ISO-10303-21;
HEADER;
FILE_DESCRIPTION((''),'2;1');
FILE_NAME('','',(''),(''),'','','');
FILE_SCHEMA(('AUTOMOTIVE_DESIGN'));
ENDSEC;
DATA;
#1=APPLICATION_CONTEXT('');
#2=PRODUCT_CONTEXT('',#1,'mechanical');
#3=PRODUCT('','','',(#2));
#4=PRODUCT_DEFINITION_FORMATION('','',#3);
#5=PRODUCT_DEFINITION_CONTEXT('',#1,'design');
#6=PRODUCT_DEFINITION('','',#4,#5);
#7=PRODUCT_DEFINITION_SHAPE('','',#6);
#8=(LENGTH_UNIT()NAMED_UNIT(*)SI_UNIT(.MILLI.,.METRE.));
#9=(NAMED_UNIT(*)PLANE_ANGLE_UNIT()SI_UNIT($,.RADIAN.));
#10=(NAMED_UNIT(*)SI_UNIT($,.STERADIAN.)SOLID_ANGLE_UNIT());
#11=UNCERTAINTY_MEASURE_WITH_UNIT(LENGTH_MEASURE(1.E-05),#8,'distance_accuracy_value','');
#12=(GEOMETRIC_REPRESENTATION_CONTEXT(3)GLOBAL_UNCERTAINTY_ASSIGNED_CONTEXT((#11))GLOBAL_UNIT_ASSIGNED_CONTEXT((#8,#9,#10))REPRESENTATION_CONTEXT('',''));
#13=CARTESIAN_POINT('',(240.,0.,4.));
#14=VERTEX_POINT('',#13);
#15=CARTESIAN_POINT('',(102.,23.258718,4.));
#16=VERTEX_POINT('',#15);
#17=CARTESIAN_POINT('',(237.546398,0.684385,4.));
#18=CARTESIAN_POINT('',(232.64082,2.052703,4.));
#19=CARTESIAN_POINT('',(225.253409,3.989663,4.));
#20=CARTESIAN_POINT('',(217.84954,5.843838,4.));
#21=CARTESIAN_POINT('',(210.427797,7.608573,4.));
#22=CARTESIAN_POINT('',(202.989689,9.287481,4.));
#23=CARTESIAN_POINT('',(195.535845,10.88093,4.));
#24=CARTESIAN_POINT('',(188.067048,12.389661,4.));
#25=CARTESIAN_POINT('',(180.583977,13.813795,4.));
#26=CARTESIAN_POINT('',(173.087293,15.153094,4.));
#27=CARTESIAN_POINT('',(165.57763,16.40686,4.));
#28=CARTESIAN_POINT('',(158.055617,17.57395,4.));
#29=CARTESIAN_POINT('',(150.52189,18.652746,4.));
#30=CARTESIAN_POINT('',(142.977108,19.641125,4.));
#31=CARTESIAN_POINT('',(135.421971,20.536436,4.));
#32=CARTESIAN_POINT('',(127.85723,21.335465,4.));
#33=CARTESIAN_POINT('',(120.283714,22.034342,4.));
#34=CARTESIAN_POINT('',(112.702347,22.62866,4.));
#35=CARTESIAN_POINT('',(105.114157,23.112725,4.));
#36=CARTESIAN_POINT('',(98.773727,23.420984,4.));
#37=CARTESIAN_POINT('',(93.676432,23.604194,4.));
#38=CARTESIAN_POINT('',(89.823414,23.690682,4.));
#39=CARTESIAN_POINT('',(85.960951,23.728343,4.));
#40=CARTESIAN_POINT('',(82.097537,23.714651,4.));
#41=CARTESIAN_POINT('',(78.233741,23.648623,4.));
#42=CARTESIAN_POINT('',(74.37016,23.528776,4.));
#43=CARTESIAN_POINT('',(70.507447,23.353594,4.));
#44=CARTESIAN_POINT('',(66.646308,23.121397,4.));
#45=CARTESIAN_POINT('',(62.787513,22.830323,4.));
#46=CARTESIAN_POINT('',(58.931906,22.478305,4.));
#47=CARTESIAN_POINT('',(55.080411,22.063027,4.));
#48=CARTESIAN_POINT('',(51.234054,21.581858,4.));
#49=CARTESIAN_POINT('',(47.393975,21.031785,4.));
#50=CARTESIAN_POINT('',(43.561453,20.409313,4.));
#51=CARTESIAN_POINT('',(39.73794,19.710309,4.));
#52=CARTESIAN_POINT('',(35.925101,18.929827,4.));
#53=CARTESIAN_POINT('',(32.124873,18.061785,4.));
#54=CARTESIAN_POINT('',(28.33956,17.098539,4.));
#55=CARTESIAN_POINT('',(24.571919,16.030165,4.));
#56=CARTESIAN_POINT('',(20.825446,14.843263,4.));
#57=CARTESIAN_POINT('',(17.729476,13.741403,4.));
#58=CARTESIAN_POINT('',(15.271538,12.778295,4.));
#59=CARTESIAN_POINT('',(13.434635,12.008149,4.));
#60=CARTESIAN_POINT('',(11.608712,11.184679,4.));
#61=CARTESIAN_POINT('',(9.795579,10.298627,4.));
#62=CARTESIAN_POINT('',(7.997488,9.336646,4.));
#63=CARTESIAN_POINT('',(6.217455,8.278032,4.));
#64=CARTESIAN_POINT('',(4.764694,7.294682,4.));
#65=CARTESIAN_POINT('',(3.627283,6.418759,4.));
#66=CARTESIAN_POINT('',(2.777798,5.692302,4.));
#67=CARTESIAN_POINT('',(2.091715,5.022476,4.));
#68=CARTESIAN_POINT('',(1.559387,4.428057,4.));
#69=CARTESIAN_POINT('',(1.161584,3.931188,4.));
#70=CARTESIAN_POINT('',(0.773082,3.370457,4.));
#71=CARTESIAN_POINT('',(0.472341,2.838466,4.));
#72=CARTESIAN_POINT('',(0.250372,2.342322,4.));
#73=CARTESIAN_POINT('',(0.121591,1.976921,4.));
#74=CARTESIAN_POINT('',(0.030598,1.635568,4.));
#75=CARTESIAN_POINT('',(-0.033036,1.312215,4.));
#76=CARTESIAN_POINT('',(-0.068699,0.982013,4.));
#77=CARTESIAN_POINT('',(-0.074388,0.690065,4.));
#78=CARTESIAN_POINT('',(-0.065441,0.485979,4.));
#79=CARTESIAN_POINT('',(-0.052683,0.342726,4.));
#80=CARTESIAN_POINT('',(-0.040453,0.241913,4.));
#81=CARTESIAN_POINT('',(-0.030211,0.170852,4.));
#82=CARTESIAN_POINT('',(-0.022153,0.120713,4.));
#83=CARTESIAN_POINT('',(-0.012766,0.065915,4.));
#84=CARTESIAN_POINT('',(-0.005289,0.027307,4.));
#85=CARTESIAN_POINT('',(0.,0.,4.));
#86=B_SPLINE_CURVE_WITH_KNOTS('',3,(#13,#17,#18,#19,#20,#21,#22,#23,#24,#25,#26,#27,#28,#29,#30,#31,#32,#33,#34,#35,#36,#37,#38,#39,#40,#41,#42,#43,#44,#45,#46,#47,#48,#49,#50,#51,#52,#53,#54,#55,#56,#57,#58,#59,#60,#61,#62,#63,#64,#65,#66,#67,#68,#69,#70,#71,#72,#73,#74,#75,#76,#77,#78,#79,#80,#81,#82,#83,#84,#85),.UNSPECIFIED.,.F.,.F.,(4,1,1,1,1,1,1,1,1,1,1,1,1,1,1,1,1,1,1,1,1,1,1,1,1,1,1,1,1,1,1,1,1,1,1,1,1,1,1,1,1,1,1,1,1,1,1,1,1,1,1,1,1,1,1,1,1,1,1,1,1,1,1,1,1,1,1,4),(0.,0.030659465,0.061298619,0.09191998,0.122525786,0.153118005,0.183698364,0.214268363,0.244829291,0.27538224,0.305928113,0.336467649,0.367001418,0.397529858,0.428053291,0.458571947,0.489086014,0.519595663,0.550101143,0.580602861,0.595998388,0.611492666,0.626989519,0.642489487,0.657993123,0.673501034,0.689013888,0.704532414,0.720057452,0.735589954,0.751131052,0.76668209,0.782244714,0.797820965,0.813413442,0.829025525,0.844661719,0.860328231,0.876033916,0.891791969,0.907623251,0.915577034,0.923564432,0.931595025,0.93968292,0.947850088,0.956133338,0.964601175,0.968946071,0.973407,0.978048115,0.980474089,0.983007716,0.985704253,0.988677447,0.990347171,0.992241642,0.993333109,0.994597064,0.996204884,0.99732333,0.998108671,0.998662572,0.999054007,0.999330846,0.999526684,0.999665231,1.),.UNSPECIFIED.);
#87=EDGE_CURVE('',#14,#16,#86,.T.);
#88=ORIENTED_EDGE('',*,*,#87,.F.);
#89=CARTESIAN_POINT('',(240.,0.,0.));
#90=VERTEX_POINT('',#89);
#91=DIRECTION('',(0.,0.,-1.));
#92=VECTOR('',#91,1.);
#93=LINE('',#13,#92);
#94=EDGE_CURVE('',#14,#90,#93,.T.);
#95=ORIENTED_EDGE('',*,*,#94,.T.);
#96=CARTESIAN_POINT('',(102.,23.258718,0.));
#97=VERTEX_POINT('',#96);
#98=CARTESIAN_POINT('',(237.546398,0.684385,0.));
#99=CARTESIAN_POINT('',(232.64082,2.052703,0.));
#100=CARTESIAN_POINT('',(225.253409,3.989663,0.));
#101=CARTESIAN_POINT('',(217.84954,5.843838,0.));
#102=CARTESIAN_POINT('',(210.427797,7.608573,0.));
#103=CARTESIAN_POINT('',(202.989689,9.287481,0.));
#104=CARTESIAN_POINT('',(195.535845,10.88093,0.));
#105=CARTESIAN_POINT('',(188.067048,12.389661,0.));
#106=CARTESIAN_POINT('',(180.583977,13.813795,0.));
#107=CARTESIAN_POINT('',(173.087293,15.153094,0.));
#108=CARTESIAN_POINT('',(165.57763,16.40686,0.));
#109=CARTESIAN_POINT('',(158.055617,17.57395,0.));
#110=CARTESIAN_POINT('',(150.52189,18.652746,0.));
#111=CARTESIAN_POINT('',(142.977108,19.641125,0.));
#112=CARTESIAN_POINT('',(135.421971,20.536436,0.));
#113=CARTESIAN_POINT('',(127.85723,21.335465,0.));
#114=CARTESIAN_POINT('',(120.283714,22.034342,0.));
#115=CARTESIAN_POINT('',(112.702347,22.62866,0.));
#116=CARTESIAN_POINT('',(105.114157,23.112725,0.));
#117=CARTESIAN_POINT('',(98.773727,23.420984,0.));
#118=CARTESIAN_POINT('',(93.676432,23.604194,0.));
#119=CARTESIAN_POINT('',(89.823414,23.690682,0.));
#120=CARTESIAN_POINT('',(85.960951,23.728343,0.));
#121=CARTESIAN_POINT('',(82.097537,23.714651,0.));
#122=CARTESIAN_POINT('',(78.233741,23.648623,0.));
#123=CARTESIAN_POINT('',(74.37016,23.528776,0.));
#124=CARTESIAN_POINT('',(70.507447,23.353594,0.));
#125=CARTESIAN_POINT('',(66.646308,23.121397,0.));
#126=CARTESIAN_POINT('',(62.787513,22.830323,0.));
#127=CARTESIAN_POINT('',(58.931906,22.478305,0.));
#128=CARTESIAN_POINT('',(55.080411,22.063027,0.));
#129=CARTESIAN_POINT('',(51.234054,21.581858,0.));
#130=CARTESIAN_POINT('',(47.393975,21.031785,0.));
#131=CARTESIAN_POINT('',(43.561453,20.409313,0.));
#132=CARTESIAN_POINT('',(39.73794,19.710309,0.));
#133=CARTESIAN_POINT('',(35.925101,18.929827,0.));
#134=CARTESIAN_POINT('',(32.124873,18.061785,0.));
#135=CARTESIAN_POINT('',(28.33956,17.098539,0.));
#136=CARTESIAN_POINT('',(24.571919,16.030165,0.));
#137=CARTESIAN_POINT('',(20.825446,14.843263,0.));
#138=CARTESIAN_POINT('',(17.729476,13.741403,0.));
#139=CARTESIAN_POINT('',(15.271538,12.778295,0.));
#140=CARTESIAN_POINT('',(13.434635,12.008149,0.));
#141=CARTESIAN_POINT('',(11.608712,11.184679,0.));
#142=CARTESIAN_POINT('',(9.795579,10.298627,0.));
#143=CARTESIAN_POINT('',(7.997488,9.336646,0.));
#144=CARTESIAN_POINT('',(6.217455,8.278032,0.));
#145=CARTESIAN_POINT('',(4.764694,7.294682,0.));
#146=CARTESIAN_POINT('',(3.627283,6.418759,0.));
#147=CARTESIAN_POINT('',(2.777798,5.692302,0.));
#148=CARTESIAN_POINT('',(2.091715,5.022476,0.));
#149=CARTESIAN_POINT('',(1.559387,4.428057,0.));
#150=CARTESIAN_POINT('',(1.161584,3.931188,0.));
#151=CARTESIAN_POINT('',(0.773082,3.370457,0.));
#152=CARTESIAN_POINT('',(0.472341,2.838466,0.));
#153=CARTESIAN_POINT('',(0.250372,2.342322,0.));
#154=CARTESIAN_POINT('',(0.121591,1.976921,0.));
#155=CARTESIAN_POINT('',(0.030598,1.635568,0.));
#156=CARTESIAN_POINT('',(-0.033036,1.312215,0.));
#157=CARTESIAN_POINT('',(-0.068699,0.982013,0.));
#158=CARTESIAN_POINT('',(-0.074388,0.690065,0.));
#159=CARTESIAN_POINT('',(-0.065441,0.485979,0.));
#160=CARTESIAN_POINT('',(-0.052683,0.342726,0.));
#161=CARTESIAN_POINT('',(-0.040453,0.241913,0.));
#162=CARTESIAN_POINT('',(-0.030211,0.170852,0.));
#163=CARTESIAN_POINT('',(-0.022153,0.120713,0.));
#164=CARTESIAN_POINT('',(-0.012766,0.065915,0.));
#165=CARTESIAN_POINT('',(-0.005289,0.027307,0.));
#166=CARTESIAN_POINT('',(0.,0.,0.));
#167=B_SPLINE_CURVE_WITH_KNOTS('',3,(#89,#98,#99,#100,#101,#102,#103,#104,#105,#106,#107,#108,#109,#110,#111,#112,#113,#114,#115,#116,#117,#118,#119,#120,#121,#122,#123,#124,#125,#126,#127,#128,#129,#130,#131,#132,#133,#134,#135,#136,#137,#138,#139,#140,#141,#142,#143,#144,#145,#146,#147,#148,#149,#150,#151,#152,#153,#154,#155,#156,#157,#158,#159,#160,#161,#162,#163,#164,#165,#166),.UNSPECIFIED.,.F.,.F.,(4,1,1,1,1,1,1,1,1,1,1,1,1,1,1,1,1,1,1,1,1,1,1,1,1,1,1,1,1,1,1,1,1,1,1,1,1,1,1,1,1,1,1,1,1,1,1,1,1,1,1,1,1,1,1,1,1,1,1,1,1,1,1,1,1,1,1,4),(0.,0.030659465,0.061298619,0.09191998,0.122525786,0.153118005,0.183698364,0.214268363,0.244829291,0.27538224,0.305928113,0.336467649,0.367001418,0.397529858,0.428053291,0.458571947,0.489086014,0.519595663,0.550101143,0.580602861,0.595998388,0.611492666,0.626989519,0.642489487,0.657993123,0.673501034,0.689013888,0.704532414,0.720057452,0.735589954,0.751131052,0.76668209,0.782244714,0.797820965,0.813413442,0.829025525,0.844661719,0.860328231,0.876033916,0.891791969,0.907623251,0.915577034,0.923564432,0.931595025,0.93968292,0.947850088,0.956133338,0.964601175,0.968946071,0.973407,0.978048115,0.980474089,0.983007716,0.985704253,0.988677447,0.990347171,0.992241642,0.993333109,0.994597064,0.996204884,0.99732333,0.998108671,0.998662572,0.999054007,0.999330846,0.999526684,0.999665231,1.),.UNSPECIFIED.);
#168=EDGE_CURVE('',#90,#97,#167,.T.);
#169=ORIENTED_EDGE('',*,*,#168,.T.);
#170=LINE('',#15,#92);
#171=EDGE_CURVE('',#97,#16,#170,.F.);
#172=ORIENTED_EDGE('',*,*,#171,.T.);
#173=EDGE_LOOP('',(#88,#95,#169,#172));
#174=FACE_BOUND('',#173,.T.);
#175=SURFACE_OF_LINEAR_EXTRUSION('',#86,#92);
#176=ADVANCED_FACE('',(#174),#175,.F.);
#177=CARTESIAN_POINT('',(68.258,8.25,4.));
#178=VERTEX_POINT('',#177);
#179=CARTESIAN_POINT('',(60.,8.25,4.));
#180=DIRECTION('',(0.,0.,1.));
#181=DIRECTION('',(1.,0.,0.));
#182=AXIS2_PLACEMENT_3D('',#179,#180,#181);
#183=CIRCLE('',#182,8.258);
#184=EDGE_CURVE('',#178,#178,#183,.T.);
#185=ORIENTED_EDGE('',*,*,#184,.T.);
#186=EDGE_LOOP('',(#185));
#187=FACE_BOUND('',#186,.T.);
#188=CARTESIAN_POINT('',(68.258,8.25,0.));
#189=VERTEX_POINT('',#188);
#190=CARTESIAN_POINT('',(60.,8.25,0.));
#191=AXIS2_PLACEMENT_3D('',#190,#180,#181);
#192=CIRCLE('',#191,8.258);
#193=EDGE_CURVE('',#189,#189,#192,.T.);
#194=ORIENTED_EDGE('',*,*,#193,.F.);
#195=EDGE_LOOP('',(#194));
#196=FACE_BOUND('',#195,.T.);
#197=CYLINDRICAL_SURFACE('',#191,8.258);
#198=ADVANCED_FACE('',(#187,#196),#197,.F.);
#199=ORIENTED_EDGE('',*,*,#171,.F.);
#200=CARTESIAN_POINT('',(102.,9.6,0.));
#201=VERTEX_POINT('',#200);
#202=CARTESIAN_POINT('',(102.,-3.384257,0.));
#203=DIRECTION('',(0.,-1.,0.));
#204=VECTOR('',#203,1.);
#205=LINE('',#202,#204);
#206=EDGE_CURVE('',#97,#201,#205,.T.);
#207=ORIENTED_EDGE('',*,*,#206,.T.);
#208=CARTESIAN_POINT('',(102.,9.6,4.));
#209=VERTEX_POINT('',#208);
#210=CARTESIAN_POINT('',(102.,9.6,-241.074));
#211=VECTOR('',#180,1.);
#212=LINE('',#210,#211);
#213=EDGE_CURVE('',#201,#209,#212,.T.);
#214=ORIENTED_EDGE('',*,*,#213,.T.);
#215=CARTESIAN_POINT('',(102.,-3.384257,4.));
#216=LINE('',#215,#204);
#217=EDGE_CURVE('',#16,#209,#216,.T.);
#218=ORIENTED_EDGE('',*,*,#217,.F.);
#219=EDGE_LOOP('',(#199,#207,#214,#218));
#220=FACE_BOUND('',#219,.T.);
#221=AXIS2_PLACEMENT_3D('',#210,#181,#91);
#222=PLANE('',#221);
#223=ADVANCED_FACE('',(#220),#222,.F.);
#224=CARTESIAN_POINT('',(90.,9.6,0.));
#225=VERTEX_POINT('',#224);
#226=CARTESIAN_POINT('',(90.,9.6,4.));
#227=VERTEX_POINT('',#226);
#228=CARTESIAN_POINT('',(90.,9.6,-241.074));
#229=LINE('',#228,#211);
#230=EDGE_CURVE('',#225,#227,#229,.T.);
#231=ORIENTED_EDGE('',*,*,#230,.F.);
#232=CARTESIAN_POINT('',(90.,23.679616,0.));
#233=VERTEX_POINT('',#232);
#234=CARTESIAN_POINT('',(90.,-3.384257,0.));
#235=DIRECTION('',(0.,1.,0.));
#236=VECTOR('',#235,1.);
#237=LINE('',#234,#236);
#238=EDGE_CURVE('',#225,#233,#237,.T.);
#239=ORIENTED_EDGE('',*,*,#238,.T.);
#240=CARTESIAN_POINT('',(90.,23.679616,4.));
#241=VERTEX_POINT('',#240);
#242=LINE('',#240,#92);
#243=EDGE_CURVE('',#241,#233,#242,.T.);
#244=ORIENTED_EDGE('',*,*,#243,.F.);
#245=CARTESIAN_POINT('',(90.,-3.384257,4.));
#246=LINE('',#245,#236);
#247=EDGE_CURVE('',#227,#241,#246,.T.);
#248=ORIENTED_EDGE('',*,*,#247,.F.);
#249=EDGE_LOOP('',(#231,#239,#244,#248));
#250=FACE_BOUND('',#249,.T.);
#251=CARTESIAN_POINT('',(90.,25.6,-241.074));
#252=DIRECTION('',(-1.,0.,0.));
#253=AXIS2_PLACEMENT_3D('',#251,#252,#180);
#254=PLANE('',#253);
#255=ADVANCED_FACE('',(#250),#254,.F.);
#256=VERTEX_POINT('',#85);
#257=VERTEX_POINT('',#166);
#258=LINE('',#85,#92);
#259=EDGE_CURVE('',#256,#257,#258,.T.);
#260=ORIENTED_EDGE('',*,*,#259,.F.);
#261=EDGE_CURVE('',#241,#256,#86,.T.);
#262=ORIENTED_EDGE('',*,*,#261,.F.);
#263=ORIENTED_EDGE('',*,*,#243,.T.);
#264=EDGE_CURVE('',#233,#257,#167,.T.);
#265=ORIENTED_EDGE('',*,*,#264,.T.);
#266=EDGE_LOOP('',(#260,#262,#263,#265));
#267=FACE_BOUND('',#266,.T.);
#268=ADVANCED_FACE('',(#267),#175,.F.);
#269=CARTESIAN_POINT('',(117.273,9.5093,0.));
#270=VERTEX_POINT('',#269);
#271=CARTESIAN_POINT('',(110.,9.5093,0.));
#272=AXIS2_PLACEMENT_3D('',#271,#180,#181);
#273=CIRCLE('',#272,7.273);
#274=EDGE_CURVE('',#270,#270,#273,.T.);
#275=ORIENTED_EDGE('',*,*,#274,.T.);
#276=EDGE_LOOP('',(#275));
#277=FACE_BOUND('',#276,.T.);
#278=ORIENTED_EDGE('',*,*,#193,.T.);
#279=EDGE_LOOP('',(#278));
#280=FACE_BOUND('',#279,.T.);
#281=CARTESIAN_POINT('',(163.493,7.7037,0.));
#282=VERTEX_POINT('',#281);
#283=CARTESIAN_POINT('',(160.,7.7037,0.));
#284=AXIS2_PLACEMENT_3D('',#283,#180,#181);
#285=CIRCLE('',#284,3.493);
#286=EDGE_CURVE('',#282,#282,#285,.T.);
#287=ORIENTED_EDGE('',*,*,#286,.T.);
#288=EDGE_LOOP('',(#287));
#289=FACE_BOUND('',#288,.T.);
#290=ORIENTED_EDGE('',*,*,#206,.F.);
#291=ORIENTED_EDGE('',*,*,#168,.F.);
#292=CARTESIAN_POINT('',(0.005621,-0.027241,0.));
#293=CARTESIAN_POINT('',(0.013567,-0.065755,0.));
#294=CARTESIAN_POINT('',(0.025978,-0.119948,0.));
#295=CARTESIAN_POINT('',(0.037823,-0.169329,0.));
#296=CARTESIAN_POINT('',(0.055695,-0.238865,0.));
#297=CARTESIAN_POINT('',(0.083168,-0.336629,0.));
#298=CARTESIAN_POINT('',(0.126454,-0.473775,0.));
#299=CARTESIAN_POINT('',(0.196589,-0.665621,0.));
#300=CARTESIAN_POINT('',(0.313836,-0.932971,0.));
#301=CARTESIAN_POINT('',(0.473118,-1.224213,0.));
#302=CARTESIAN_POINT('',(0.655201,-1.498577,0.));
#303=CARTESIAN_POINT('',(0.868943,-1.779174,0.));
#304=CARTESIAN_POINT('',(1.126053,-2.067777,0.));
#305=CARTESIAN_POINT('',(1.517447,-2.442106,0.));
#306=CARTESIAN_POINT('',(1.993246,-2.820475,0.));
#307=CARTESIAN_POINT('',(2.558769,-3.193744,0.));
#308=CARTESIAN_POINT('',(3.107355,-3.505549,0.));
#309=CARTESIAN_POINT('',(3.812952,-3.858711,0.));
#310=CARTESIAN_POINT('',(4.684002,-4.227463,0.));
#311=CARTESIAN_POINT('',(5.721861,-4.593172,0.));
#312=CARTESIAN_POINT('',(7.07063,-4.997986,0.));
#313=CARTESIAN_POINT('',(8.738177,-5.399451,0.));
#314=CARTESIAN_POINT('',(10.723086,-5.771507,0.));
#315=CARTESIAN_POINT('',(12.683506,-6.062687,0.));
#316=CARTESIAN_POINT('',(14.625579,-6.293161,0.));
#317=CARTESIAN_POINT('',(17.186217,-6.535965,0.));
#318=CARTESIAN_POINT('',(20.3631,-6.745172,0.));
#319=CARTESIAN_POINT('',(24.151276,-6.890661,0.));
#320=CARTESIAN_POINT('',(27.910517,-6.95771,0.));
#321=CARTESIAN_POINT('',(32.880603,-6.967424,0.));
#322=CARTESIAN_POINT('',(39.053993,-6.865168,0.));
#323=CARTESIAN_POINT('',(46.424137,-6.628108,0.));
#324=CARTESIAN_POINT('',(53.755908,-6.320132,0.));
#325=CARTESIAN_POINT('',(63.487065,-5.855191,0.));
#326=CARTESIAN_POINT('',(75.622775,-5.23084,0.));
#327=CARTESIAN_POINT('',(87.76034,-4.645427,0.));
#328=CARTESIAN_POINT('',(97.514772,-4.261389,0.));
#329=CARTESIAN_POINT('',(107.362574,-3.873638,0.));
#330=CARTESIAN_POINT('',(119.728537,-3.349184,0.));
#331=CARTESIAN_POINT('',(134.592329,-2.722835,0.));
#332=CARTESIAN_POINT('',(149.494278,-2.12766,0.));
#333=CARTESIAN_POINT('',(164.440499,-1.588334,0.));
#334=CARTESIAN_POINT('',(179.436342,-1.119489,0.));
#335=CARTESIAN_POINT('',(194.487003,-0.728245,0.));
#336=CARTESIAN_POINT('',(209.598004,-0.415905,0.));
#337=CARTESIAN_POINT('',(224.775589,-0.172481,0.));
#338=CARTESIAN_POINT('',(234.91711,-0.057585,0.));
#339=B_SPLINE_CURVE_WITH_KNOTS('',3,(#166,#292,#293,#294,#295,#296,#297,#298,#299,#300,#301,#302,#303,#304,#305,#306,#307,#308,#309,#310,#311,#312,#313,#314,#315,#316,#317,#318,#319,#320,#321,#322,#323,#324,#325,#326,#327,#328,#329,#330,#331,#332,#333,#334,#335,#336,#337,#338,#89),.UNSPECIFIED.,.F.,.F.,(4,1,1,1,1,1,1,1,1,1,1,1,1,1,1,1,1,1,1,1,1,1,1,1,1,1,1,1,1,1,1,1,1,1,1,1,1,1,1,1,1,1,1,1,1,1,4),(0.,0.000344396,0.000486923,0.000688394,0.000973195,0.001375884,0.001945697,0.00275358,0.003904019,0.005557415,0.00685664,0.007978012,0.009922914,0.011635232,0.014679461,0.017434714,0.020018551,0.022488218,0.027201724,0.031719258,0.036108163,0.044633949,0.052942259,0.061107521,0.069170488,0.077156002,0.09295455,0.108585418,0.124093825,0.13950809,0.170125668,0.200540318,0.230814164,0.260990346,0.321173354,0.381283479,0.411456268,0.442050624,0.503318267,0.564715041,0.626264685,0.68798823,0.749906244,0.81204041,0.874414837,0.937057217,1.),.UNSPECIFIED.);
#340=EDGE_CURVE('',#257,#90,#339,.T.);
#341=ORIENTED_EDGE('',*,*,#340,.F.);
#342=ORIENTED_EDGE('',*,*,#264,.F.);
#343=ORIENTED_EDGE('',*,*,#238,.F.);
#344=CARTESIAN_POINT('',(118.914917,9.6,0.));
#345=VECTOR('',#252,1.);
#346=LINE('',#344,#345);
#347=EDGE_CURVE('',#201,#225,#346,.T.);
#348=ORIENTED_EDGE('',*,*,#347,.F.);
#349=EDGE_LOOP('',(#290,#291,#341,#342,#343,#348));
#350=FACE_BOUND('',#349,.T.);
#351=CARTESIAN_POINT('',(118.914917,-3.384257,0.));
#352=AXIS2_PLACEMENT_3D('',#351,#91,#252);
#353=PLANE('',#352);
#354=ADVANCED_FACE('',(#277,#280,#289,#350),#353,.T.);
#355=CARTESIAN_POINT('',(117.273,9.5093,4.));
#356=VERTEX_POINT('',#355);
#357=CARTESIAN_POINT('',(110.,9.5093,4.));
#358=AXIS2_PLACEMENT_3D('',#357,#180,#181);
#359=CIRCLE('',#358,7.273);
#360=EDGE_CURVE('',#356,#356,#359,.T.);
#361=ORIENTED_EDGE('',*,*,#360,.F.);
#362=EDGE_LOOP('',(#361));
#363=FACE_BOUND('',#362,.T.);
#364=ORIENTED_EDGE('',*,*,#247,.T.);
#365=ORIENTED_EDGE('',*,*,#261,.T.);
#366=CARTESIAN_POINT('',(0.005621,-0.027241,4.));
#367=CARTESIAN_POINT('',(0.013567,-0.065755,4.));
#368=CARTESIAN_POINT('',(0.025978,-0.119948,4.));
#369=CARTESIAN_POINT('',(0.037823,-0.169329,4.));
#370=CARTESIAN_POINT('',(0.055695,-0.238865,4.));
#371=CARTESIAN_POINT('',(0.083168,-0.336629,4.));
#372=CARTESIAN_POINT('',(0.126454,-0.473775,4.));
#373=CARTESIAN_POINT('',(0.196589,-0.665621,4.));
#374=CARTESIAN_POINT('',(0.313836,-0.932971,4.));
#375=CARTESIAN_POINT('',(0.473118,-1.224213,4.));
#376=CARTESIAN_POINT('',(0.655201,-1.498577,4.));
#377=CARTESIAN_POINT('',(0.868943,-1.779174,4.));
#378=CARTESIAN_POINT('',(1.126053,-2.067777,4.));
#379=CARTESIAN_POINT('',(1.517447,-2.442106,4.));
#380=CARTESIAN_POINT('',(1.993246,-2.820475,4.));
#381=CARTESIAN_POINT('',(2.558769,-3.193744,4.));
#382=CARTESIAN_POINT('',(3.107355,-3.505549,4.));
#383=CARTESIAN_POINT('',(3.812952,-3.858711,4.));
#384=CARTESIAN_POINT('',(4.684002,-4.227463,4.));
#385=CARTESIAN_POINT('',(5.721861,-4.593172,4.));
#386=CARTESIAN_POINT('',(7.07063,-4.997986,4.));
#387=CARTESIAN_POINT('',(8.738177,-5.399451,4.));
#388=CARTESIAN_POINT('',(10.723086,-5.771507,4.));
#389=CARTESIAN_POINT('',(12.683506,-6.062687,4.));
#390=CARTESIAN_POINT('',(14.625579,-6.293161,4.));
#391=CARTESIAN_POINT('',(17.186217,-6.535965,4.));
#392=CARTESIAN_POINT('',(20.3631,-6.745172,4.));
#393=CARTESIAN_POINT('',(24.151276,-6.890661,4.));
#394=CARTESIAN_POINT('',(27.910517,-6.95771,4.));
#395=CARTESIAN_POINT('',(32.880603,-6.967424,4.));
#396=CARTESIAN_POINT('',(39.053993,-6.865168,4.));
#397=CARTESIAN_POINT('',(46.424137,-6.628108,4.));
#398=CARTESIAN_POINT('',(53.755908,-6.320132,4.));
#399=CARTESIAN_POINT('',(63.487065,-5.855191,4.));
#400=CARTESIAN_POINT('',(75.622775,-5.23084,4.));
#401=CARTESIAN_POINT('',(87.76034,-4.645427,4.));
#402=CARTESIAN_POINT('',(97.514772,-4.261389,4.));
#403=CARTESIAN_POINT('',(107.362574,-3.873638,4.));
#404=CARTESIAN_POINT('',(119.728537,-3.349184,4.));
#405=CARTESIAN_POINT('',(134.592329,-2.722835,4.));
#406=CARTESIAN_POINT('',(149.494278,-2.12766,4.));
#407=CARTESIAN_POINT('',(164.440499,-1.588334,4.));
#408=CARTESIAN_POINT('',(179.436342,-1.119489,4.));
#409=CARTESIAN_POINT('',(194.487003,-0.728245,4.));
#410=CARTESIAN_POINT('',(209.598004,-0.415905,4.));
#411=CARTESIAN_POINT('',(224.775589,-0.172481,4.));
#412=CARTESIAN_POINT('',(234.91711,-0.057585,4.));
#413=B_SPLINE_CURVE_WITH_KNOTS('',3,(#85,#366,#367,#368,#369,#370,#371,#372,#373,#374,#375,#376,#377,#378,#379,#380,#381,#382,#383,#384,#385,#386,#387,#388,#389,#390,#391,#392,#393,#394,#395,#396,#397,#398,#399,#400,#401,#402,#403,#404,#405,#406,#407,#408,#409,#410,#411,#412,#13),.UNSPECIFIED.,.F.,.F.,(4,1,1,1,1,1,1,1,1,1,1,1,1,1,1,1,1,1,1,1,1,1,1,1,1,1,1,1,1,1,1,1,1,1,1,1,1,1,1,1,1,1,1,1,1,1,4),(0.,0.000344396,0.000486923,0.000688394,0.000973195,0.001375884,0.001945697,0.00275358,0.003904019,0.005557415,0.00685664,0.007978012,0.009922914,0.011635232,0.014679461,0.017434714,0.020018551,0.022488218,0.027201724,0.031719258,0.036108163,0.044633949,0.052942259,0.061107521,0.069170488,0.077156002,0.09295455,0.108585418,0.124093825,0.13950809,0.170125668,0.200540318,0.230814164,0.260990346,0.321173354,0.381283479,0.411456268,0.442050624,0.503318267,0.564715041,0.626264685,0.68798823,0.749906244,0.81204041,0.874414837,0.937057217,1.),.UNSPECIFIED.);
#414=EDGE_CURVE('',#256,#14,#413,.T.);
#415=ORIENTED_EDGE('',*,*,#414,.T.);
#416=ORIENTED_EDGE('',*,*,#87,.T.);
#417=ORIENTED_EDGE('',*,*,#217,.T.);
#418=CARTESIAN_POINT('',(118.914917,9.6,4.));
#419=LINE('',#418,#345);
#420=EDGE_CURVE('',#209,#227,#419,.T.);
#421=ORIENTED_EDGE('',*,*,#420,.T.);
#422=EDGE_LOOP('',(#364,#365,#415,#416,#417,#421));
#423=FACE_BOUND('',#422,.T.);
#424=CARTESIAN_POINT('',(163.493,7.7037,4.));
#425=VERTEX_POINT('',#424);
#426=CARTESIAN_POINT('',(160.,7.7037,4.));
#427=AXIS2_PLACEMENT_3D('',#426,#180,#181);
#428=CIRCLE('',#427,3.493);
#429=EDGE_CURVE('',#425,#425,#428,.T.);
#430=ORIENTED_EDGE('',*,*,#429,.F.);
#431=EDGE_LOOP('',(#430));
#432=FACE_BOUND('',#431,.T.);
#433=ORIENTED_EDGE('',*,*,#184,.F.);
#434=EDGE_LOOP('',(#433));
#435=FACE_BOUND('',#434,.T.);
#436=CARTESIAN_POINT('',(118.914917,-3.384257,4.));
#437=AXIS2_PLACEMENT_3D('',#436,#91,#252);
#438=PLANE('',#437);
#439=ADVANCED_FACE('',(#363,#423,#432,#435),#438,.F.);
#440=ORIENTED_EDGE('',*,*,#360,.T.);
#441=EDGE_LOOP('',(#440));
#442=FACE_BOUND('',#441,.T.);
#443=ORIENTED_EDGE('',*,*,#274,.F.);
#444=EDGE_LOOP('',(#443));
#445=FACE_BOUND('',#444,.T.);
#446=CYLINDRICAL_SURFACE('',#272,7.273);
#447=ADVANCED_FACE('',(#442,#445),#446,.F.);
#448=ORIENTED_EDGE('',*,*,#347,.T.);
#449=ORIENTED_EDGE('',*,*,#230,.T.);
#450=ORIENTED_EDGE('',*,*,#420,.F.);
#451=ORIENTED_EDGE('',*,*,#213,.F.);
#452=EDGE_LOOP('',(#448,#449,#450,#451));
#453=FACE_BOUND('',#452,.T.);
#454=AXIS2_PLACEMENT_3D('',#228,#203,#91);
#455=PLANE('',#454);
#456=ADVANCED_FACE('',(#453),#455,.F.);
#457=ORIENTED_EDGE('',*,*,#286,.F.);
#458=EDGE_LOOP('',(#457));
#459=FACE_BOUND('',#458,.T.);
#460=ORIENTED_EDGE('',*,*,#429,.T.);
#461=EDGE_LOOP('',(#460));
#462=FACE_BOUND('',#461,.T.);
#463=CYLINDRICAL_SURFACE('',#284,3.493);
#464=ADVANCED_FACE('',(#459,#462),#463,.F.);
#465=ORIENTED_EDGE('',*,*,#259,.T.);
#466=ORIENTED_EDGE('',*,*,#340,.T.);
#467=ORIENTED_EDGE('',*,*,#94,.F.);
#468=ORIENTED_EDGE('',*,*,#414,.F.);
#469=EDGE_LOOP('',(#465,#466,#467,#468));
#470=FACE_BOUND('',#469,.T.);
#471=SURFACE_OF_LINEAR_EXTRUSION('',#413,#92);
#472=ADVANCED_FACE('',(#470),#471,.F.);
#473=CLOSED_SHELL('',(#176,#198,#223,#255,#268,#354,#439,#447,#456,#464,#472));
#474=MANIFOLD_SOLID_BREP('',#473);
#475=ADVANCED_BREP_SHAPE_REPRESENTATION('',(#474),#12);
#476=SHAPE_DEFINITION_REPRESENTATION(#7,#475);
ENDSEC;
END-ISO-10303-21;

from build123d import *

# Parameters (mm, degrees)
EXTRUDE_1_DEPTH     = 4
SKETCH_2_R          = 8.258
CUT_EXTRUDE_1_DEPTH = 242.202600441
SKETCH_3_R          = 7.273
CUT_EXTRUDE_2_DEPTH = 242.202600441
SKETCH_4_R          = 3.493
CUT_EXTRUDE_3_DEPTH = 242.202600441
SKETCH_6_W          = 12
SKETCH_6_H          = 16
CUT_EXTRUDE_5_DEPTH = 241.074


with BuildPart() as part:
    # 草图1 → 凸台-拉伸1 (new body)
    with BuildSketch(Plane.XY):
        with BuildLine():
            add(Edge.make_bspline(
                [(0, 0), (-0.005288637, 0.027306965), (-0.012766006, 0.065915068), (-0.022153323, 0.120712697), (-0.030210585, 0.170851793), (-0.040453144, 0.241913365), (-0.052682719, 0.342725743), (-0.065440984, 0.485978709), (-0.074387813, 0.690065352), (-0.0686987, 0.982013321), (-0.033036091, 1.312214714), (0.030597532, 1.635567859), (0.121591356, 1.976920534), (0.250371604, 2.342321824), (0.472341281, 2.838466056), (0.773081644, 3.370456853), (1.161583787, 3.931187821), (1.559387095, 4.428056884), (2.091714531, 5.022476136), (2.777798061, 5.692302492), (3.627283356, 6.418758526), (4.764693829, 7.29468167), (6.21745515, 8.278032448), (7.997488076, 9.336645637), (9.795579221, 10.298627307), (11.608712321, 11.184679179), (13.434634677, 12.008148722), (15.271537967, 12.778295153), (17.729476359, 13.741402594), (20.82544579, 14.843263376), (24.571919444, 16.030165468), (28.339560161, 17.0985386), (32.12487346, 18.061784525), (35.925100546, 18.929826892), (39.737940185, 19.71030891), (43.561453276, 20.409312511), (47.393975172, 21.031785496), (51.234054288, 21.581857689), (55.080411196, 22.063026744), (58.93190557, 22.478304615), (62.787513331, 22.830322648), (66.646308068, 23.121396522), (70.507447303, 23.353594238), (74.370160091, 23.528775696), (78.233740528, 23.64862295), (82.097536671, 23.71465077), (85.960951375, 23.728342975), (89.823414351, 23.690681955), (93.676431779, 23.604193967), (98.773727292, 23.420984207), (105.114156567, 23.11272469), (112.702347417, 22.628659762), (120.283713822, 22.034341773), (127.857230034, 21.335464614), (135.421970656, 20.536435505), (142.977108491, 19.641124977), (150.521889929, 18.652745922), (158.055616957, 17.573950453), (165.577630234, 16.40685992), (173.087293464, 15.153093694), (180.583977279, 13.813795243), (188.067047998, 12.389661186), (195.535844753, 10.880930145), (202.989689487, 9.287480887), (210.42779734, 7.608573405), (217.849539663, 5.84383764), (225.253408528, 3.989662589), (232.640819939, 2.052702909), (237.546398163, 0.684385432), (240, 0)],
                knots=[0, 0, 0, 0, 0.000334769, 0.000473316, 0.000669154, 0.000945993, 0.001337428, 0.001891329, 0.00267667, 0.003795116, 0.005402936, 0.006666891, 0.007758358, 0.009652829, 0.011322553, 0.014295747, 0.016992284, 0.019525911, 0.021951885, 0.026593, 0.031053929, 0.035398825, 0.043866662, 0.052149912, 0.06031708, 0.068404975, 0.076435568, 0.084422966, 0.092376749, 0.108208031, 0.123966084, 0.139671769, 0.155338281, 0.170974475, 0.186586558, 0.202179035, 0.217755286, 0.23331791, 0.248868948, 0.264410046, 0.279942548, 0.295467586, 0.310986112, 0.326498966, 0.342006877, 0.357510513, 0.373010481, 0.388507334, 0.404001612, 0.419397139, 0.449898857, 0.480404337, 0.510913986, 0.541428053, 0.571946709, 0.602470142, 0.632998582, 0.663532351, 0.694071887, 0.72461776, 0.755170709, 0.785731637, 0.816301636, 0.846881995, 0.877474214, 0.90808002, 0.938701381, 0.969340535, 1, 1, 1, 1], degree=3))
            add(Edge.make_bspline(
                [(240, 0), (234.917110018, -0.057585286), (224.775588822, -0.172481024), (209.598003822, -0.415904891), (194.487002613, -0.728245316), (179.43634205, -1.119488516), (164.440499209, -1.588334416), (149.494278082, -2.127659731), (134.592329132, -2.722835319), (119.728536963, -3.349183783), (107.362573716, -3.873637958), (97.514772, -4.261389001), (87.760339877, -4.645426988), (75.622774809, -5.230840469), (63.487065009, -5.85519136), (53.755908235, -6.320131596), (46.424136767, -6.628108223), (39.053992561, -6.865167611), (32.880602935, -6.967424), (27.910517319, -6.957709617), (24.15127632, -6.890661049), (20.363099883, -6.745172216), (17.186217127, -6.535965403), (14.625579122, -6.293161259), (12.683505874, -6.062687015), (10.723085806, -5.771507493), (8.738176655, -5.399451237), (7.07063002, -4.997986268), (5.721860643, -4.593172323), (4.684001624, -4.227462917), (3.812952451, -3.858710942), (3.107354908, -3.505548627), (2.55876921, -3.193744289), (1.993245962, -2.820474949), (1.51744672, -2.442105711), (1.126053407, -2.067776646), (0.868943424, -1.77917403), (0.655201004, -1.498576542), (0.473117664, -1.22421341), (0.31383558, -0.932970965), (0.19658861, -0.665620959), (0.12645379, -0.47377542), (0.083168463, -0.336628772), (0.05569496, -0.238865361), (0.037823046, -0.169329158), (0.025977828, -0.119947575), (0.013567454, -0.065754641), (0.005620681, -0.027240622), (0, 0)],
                knots=[0, 0, 0, 0, 0.062942783, 0.125585163, 0.18795959, 0.250093756, 0.31201177, 0.373735315, 0.435284959, 0.496681733, 0.557949376, 0.588543732, 0.618716521, 0.678826646, 0.739009654, 0.769185836, 0.799459682, 0.829874332, 0.86049191, 0.875906175, 0.891414582, 0.90704545, 0.922843998, 0.930829512, 0.938892479, 0.947057741, 0.955366051, 0.963891837, 0.968280742, 0.972798276, 0.977511782, 0.979981449, 0.982565286, 0.985320539, 0.988364768, 0.990077086, 0.992021988, 0.99314336, 0.994442585, 0.996095981, 0.99724642, 0.998054303, 0.998624116, 0.999026805, 0.999311606, 0.999513077, 0.999655604, 1, 1, 1, 1], degree=3))
        make_face()
    extrude(amount=EXTRUDE_1_DEPTH)

    # 草图2 → 切除-拉伸1 (cut, through all)
    with BuildSketch(Plane.XY.offset(4)):
        with Locations((60, 8.25)):
            Circle(SKETCH_2_R)
    extrude(amount=-CUT_EXTRUDE_1_DEPTH, mode=Mode.SUBTRACT)

    # 草图3 → 切除-拉伸2 (cut, through all)
    with BuildSketch(Plane.XY.offset(4)):
        with Locations((110, 9.5093)):
            Circle(SKETCH_3_R)
    extrude(amount=-CUT_EXTRUDE_2_DEPTH, mode=Mode.SUBTRACT)

    # 草图4 → 切除-拉伸3 (cut, through all)
    with BuildSketch(Plane.XY.offset(4)):
        with Locations((160, 7.7037)):
            Circle(SKETCH_4_R)
    extrude(amount=-CUT_EXTRUDE_3_DEPTH, mode=Mode.SUBTRACT)

    # 草图6 → 切除-拉伸5 (cut, symmetric)
    with BuildSketch(Plane.XY):
        with Locations((96, 17.6)):
            Rectangle(SKETCH_6_W, SKETCH_6_H)
    extrude(amount=CUT_EXTRUDE_5_DEPTH, both=True, mode=Mode.SUBTRACT)


solid = part.part
